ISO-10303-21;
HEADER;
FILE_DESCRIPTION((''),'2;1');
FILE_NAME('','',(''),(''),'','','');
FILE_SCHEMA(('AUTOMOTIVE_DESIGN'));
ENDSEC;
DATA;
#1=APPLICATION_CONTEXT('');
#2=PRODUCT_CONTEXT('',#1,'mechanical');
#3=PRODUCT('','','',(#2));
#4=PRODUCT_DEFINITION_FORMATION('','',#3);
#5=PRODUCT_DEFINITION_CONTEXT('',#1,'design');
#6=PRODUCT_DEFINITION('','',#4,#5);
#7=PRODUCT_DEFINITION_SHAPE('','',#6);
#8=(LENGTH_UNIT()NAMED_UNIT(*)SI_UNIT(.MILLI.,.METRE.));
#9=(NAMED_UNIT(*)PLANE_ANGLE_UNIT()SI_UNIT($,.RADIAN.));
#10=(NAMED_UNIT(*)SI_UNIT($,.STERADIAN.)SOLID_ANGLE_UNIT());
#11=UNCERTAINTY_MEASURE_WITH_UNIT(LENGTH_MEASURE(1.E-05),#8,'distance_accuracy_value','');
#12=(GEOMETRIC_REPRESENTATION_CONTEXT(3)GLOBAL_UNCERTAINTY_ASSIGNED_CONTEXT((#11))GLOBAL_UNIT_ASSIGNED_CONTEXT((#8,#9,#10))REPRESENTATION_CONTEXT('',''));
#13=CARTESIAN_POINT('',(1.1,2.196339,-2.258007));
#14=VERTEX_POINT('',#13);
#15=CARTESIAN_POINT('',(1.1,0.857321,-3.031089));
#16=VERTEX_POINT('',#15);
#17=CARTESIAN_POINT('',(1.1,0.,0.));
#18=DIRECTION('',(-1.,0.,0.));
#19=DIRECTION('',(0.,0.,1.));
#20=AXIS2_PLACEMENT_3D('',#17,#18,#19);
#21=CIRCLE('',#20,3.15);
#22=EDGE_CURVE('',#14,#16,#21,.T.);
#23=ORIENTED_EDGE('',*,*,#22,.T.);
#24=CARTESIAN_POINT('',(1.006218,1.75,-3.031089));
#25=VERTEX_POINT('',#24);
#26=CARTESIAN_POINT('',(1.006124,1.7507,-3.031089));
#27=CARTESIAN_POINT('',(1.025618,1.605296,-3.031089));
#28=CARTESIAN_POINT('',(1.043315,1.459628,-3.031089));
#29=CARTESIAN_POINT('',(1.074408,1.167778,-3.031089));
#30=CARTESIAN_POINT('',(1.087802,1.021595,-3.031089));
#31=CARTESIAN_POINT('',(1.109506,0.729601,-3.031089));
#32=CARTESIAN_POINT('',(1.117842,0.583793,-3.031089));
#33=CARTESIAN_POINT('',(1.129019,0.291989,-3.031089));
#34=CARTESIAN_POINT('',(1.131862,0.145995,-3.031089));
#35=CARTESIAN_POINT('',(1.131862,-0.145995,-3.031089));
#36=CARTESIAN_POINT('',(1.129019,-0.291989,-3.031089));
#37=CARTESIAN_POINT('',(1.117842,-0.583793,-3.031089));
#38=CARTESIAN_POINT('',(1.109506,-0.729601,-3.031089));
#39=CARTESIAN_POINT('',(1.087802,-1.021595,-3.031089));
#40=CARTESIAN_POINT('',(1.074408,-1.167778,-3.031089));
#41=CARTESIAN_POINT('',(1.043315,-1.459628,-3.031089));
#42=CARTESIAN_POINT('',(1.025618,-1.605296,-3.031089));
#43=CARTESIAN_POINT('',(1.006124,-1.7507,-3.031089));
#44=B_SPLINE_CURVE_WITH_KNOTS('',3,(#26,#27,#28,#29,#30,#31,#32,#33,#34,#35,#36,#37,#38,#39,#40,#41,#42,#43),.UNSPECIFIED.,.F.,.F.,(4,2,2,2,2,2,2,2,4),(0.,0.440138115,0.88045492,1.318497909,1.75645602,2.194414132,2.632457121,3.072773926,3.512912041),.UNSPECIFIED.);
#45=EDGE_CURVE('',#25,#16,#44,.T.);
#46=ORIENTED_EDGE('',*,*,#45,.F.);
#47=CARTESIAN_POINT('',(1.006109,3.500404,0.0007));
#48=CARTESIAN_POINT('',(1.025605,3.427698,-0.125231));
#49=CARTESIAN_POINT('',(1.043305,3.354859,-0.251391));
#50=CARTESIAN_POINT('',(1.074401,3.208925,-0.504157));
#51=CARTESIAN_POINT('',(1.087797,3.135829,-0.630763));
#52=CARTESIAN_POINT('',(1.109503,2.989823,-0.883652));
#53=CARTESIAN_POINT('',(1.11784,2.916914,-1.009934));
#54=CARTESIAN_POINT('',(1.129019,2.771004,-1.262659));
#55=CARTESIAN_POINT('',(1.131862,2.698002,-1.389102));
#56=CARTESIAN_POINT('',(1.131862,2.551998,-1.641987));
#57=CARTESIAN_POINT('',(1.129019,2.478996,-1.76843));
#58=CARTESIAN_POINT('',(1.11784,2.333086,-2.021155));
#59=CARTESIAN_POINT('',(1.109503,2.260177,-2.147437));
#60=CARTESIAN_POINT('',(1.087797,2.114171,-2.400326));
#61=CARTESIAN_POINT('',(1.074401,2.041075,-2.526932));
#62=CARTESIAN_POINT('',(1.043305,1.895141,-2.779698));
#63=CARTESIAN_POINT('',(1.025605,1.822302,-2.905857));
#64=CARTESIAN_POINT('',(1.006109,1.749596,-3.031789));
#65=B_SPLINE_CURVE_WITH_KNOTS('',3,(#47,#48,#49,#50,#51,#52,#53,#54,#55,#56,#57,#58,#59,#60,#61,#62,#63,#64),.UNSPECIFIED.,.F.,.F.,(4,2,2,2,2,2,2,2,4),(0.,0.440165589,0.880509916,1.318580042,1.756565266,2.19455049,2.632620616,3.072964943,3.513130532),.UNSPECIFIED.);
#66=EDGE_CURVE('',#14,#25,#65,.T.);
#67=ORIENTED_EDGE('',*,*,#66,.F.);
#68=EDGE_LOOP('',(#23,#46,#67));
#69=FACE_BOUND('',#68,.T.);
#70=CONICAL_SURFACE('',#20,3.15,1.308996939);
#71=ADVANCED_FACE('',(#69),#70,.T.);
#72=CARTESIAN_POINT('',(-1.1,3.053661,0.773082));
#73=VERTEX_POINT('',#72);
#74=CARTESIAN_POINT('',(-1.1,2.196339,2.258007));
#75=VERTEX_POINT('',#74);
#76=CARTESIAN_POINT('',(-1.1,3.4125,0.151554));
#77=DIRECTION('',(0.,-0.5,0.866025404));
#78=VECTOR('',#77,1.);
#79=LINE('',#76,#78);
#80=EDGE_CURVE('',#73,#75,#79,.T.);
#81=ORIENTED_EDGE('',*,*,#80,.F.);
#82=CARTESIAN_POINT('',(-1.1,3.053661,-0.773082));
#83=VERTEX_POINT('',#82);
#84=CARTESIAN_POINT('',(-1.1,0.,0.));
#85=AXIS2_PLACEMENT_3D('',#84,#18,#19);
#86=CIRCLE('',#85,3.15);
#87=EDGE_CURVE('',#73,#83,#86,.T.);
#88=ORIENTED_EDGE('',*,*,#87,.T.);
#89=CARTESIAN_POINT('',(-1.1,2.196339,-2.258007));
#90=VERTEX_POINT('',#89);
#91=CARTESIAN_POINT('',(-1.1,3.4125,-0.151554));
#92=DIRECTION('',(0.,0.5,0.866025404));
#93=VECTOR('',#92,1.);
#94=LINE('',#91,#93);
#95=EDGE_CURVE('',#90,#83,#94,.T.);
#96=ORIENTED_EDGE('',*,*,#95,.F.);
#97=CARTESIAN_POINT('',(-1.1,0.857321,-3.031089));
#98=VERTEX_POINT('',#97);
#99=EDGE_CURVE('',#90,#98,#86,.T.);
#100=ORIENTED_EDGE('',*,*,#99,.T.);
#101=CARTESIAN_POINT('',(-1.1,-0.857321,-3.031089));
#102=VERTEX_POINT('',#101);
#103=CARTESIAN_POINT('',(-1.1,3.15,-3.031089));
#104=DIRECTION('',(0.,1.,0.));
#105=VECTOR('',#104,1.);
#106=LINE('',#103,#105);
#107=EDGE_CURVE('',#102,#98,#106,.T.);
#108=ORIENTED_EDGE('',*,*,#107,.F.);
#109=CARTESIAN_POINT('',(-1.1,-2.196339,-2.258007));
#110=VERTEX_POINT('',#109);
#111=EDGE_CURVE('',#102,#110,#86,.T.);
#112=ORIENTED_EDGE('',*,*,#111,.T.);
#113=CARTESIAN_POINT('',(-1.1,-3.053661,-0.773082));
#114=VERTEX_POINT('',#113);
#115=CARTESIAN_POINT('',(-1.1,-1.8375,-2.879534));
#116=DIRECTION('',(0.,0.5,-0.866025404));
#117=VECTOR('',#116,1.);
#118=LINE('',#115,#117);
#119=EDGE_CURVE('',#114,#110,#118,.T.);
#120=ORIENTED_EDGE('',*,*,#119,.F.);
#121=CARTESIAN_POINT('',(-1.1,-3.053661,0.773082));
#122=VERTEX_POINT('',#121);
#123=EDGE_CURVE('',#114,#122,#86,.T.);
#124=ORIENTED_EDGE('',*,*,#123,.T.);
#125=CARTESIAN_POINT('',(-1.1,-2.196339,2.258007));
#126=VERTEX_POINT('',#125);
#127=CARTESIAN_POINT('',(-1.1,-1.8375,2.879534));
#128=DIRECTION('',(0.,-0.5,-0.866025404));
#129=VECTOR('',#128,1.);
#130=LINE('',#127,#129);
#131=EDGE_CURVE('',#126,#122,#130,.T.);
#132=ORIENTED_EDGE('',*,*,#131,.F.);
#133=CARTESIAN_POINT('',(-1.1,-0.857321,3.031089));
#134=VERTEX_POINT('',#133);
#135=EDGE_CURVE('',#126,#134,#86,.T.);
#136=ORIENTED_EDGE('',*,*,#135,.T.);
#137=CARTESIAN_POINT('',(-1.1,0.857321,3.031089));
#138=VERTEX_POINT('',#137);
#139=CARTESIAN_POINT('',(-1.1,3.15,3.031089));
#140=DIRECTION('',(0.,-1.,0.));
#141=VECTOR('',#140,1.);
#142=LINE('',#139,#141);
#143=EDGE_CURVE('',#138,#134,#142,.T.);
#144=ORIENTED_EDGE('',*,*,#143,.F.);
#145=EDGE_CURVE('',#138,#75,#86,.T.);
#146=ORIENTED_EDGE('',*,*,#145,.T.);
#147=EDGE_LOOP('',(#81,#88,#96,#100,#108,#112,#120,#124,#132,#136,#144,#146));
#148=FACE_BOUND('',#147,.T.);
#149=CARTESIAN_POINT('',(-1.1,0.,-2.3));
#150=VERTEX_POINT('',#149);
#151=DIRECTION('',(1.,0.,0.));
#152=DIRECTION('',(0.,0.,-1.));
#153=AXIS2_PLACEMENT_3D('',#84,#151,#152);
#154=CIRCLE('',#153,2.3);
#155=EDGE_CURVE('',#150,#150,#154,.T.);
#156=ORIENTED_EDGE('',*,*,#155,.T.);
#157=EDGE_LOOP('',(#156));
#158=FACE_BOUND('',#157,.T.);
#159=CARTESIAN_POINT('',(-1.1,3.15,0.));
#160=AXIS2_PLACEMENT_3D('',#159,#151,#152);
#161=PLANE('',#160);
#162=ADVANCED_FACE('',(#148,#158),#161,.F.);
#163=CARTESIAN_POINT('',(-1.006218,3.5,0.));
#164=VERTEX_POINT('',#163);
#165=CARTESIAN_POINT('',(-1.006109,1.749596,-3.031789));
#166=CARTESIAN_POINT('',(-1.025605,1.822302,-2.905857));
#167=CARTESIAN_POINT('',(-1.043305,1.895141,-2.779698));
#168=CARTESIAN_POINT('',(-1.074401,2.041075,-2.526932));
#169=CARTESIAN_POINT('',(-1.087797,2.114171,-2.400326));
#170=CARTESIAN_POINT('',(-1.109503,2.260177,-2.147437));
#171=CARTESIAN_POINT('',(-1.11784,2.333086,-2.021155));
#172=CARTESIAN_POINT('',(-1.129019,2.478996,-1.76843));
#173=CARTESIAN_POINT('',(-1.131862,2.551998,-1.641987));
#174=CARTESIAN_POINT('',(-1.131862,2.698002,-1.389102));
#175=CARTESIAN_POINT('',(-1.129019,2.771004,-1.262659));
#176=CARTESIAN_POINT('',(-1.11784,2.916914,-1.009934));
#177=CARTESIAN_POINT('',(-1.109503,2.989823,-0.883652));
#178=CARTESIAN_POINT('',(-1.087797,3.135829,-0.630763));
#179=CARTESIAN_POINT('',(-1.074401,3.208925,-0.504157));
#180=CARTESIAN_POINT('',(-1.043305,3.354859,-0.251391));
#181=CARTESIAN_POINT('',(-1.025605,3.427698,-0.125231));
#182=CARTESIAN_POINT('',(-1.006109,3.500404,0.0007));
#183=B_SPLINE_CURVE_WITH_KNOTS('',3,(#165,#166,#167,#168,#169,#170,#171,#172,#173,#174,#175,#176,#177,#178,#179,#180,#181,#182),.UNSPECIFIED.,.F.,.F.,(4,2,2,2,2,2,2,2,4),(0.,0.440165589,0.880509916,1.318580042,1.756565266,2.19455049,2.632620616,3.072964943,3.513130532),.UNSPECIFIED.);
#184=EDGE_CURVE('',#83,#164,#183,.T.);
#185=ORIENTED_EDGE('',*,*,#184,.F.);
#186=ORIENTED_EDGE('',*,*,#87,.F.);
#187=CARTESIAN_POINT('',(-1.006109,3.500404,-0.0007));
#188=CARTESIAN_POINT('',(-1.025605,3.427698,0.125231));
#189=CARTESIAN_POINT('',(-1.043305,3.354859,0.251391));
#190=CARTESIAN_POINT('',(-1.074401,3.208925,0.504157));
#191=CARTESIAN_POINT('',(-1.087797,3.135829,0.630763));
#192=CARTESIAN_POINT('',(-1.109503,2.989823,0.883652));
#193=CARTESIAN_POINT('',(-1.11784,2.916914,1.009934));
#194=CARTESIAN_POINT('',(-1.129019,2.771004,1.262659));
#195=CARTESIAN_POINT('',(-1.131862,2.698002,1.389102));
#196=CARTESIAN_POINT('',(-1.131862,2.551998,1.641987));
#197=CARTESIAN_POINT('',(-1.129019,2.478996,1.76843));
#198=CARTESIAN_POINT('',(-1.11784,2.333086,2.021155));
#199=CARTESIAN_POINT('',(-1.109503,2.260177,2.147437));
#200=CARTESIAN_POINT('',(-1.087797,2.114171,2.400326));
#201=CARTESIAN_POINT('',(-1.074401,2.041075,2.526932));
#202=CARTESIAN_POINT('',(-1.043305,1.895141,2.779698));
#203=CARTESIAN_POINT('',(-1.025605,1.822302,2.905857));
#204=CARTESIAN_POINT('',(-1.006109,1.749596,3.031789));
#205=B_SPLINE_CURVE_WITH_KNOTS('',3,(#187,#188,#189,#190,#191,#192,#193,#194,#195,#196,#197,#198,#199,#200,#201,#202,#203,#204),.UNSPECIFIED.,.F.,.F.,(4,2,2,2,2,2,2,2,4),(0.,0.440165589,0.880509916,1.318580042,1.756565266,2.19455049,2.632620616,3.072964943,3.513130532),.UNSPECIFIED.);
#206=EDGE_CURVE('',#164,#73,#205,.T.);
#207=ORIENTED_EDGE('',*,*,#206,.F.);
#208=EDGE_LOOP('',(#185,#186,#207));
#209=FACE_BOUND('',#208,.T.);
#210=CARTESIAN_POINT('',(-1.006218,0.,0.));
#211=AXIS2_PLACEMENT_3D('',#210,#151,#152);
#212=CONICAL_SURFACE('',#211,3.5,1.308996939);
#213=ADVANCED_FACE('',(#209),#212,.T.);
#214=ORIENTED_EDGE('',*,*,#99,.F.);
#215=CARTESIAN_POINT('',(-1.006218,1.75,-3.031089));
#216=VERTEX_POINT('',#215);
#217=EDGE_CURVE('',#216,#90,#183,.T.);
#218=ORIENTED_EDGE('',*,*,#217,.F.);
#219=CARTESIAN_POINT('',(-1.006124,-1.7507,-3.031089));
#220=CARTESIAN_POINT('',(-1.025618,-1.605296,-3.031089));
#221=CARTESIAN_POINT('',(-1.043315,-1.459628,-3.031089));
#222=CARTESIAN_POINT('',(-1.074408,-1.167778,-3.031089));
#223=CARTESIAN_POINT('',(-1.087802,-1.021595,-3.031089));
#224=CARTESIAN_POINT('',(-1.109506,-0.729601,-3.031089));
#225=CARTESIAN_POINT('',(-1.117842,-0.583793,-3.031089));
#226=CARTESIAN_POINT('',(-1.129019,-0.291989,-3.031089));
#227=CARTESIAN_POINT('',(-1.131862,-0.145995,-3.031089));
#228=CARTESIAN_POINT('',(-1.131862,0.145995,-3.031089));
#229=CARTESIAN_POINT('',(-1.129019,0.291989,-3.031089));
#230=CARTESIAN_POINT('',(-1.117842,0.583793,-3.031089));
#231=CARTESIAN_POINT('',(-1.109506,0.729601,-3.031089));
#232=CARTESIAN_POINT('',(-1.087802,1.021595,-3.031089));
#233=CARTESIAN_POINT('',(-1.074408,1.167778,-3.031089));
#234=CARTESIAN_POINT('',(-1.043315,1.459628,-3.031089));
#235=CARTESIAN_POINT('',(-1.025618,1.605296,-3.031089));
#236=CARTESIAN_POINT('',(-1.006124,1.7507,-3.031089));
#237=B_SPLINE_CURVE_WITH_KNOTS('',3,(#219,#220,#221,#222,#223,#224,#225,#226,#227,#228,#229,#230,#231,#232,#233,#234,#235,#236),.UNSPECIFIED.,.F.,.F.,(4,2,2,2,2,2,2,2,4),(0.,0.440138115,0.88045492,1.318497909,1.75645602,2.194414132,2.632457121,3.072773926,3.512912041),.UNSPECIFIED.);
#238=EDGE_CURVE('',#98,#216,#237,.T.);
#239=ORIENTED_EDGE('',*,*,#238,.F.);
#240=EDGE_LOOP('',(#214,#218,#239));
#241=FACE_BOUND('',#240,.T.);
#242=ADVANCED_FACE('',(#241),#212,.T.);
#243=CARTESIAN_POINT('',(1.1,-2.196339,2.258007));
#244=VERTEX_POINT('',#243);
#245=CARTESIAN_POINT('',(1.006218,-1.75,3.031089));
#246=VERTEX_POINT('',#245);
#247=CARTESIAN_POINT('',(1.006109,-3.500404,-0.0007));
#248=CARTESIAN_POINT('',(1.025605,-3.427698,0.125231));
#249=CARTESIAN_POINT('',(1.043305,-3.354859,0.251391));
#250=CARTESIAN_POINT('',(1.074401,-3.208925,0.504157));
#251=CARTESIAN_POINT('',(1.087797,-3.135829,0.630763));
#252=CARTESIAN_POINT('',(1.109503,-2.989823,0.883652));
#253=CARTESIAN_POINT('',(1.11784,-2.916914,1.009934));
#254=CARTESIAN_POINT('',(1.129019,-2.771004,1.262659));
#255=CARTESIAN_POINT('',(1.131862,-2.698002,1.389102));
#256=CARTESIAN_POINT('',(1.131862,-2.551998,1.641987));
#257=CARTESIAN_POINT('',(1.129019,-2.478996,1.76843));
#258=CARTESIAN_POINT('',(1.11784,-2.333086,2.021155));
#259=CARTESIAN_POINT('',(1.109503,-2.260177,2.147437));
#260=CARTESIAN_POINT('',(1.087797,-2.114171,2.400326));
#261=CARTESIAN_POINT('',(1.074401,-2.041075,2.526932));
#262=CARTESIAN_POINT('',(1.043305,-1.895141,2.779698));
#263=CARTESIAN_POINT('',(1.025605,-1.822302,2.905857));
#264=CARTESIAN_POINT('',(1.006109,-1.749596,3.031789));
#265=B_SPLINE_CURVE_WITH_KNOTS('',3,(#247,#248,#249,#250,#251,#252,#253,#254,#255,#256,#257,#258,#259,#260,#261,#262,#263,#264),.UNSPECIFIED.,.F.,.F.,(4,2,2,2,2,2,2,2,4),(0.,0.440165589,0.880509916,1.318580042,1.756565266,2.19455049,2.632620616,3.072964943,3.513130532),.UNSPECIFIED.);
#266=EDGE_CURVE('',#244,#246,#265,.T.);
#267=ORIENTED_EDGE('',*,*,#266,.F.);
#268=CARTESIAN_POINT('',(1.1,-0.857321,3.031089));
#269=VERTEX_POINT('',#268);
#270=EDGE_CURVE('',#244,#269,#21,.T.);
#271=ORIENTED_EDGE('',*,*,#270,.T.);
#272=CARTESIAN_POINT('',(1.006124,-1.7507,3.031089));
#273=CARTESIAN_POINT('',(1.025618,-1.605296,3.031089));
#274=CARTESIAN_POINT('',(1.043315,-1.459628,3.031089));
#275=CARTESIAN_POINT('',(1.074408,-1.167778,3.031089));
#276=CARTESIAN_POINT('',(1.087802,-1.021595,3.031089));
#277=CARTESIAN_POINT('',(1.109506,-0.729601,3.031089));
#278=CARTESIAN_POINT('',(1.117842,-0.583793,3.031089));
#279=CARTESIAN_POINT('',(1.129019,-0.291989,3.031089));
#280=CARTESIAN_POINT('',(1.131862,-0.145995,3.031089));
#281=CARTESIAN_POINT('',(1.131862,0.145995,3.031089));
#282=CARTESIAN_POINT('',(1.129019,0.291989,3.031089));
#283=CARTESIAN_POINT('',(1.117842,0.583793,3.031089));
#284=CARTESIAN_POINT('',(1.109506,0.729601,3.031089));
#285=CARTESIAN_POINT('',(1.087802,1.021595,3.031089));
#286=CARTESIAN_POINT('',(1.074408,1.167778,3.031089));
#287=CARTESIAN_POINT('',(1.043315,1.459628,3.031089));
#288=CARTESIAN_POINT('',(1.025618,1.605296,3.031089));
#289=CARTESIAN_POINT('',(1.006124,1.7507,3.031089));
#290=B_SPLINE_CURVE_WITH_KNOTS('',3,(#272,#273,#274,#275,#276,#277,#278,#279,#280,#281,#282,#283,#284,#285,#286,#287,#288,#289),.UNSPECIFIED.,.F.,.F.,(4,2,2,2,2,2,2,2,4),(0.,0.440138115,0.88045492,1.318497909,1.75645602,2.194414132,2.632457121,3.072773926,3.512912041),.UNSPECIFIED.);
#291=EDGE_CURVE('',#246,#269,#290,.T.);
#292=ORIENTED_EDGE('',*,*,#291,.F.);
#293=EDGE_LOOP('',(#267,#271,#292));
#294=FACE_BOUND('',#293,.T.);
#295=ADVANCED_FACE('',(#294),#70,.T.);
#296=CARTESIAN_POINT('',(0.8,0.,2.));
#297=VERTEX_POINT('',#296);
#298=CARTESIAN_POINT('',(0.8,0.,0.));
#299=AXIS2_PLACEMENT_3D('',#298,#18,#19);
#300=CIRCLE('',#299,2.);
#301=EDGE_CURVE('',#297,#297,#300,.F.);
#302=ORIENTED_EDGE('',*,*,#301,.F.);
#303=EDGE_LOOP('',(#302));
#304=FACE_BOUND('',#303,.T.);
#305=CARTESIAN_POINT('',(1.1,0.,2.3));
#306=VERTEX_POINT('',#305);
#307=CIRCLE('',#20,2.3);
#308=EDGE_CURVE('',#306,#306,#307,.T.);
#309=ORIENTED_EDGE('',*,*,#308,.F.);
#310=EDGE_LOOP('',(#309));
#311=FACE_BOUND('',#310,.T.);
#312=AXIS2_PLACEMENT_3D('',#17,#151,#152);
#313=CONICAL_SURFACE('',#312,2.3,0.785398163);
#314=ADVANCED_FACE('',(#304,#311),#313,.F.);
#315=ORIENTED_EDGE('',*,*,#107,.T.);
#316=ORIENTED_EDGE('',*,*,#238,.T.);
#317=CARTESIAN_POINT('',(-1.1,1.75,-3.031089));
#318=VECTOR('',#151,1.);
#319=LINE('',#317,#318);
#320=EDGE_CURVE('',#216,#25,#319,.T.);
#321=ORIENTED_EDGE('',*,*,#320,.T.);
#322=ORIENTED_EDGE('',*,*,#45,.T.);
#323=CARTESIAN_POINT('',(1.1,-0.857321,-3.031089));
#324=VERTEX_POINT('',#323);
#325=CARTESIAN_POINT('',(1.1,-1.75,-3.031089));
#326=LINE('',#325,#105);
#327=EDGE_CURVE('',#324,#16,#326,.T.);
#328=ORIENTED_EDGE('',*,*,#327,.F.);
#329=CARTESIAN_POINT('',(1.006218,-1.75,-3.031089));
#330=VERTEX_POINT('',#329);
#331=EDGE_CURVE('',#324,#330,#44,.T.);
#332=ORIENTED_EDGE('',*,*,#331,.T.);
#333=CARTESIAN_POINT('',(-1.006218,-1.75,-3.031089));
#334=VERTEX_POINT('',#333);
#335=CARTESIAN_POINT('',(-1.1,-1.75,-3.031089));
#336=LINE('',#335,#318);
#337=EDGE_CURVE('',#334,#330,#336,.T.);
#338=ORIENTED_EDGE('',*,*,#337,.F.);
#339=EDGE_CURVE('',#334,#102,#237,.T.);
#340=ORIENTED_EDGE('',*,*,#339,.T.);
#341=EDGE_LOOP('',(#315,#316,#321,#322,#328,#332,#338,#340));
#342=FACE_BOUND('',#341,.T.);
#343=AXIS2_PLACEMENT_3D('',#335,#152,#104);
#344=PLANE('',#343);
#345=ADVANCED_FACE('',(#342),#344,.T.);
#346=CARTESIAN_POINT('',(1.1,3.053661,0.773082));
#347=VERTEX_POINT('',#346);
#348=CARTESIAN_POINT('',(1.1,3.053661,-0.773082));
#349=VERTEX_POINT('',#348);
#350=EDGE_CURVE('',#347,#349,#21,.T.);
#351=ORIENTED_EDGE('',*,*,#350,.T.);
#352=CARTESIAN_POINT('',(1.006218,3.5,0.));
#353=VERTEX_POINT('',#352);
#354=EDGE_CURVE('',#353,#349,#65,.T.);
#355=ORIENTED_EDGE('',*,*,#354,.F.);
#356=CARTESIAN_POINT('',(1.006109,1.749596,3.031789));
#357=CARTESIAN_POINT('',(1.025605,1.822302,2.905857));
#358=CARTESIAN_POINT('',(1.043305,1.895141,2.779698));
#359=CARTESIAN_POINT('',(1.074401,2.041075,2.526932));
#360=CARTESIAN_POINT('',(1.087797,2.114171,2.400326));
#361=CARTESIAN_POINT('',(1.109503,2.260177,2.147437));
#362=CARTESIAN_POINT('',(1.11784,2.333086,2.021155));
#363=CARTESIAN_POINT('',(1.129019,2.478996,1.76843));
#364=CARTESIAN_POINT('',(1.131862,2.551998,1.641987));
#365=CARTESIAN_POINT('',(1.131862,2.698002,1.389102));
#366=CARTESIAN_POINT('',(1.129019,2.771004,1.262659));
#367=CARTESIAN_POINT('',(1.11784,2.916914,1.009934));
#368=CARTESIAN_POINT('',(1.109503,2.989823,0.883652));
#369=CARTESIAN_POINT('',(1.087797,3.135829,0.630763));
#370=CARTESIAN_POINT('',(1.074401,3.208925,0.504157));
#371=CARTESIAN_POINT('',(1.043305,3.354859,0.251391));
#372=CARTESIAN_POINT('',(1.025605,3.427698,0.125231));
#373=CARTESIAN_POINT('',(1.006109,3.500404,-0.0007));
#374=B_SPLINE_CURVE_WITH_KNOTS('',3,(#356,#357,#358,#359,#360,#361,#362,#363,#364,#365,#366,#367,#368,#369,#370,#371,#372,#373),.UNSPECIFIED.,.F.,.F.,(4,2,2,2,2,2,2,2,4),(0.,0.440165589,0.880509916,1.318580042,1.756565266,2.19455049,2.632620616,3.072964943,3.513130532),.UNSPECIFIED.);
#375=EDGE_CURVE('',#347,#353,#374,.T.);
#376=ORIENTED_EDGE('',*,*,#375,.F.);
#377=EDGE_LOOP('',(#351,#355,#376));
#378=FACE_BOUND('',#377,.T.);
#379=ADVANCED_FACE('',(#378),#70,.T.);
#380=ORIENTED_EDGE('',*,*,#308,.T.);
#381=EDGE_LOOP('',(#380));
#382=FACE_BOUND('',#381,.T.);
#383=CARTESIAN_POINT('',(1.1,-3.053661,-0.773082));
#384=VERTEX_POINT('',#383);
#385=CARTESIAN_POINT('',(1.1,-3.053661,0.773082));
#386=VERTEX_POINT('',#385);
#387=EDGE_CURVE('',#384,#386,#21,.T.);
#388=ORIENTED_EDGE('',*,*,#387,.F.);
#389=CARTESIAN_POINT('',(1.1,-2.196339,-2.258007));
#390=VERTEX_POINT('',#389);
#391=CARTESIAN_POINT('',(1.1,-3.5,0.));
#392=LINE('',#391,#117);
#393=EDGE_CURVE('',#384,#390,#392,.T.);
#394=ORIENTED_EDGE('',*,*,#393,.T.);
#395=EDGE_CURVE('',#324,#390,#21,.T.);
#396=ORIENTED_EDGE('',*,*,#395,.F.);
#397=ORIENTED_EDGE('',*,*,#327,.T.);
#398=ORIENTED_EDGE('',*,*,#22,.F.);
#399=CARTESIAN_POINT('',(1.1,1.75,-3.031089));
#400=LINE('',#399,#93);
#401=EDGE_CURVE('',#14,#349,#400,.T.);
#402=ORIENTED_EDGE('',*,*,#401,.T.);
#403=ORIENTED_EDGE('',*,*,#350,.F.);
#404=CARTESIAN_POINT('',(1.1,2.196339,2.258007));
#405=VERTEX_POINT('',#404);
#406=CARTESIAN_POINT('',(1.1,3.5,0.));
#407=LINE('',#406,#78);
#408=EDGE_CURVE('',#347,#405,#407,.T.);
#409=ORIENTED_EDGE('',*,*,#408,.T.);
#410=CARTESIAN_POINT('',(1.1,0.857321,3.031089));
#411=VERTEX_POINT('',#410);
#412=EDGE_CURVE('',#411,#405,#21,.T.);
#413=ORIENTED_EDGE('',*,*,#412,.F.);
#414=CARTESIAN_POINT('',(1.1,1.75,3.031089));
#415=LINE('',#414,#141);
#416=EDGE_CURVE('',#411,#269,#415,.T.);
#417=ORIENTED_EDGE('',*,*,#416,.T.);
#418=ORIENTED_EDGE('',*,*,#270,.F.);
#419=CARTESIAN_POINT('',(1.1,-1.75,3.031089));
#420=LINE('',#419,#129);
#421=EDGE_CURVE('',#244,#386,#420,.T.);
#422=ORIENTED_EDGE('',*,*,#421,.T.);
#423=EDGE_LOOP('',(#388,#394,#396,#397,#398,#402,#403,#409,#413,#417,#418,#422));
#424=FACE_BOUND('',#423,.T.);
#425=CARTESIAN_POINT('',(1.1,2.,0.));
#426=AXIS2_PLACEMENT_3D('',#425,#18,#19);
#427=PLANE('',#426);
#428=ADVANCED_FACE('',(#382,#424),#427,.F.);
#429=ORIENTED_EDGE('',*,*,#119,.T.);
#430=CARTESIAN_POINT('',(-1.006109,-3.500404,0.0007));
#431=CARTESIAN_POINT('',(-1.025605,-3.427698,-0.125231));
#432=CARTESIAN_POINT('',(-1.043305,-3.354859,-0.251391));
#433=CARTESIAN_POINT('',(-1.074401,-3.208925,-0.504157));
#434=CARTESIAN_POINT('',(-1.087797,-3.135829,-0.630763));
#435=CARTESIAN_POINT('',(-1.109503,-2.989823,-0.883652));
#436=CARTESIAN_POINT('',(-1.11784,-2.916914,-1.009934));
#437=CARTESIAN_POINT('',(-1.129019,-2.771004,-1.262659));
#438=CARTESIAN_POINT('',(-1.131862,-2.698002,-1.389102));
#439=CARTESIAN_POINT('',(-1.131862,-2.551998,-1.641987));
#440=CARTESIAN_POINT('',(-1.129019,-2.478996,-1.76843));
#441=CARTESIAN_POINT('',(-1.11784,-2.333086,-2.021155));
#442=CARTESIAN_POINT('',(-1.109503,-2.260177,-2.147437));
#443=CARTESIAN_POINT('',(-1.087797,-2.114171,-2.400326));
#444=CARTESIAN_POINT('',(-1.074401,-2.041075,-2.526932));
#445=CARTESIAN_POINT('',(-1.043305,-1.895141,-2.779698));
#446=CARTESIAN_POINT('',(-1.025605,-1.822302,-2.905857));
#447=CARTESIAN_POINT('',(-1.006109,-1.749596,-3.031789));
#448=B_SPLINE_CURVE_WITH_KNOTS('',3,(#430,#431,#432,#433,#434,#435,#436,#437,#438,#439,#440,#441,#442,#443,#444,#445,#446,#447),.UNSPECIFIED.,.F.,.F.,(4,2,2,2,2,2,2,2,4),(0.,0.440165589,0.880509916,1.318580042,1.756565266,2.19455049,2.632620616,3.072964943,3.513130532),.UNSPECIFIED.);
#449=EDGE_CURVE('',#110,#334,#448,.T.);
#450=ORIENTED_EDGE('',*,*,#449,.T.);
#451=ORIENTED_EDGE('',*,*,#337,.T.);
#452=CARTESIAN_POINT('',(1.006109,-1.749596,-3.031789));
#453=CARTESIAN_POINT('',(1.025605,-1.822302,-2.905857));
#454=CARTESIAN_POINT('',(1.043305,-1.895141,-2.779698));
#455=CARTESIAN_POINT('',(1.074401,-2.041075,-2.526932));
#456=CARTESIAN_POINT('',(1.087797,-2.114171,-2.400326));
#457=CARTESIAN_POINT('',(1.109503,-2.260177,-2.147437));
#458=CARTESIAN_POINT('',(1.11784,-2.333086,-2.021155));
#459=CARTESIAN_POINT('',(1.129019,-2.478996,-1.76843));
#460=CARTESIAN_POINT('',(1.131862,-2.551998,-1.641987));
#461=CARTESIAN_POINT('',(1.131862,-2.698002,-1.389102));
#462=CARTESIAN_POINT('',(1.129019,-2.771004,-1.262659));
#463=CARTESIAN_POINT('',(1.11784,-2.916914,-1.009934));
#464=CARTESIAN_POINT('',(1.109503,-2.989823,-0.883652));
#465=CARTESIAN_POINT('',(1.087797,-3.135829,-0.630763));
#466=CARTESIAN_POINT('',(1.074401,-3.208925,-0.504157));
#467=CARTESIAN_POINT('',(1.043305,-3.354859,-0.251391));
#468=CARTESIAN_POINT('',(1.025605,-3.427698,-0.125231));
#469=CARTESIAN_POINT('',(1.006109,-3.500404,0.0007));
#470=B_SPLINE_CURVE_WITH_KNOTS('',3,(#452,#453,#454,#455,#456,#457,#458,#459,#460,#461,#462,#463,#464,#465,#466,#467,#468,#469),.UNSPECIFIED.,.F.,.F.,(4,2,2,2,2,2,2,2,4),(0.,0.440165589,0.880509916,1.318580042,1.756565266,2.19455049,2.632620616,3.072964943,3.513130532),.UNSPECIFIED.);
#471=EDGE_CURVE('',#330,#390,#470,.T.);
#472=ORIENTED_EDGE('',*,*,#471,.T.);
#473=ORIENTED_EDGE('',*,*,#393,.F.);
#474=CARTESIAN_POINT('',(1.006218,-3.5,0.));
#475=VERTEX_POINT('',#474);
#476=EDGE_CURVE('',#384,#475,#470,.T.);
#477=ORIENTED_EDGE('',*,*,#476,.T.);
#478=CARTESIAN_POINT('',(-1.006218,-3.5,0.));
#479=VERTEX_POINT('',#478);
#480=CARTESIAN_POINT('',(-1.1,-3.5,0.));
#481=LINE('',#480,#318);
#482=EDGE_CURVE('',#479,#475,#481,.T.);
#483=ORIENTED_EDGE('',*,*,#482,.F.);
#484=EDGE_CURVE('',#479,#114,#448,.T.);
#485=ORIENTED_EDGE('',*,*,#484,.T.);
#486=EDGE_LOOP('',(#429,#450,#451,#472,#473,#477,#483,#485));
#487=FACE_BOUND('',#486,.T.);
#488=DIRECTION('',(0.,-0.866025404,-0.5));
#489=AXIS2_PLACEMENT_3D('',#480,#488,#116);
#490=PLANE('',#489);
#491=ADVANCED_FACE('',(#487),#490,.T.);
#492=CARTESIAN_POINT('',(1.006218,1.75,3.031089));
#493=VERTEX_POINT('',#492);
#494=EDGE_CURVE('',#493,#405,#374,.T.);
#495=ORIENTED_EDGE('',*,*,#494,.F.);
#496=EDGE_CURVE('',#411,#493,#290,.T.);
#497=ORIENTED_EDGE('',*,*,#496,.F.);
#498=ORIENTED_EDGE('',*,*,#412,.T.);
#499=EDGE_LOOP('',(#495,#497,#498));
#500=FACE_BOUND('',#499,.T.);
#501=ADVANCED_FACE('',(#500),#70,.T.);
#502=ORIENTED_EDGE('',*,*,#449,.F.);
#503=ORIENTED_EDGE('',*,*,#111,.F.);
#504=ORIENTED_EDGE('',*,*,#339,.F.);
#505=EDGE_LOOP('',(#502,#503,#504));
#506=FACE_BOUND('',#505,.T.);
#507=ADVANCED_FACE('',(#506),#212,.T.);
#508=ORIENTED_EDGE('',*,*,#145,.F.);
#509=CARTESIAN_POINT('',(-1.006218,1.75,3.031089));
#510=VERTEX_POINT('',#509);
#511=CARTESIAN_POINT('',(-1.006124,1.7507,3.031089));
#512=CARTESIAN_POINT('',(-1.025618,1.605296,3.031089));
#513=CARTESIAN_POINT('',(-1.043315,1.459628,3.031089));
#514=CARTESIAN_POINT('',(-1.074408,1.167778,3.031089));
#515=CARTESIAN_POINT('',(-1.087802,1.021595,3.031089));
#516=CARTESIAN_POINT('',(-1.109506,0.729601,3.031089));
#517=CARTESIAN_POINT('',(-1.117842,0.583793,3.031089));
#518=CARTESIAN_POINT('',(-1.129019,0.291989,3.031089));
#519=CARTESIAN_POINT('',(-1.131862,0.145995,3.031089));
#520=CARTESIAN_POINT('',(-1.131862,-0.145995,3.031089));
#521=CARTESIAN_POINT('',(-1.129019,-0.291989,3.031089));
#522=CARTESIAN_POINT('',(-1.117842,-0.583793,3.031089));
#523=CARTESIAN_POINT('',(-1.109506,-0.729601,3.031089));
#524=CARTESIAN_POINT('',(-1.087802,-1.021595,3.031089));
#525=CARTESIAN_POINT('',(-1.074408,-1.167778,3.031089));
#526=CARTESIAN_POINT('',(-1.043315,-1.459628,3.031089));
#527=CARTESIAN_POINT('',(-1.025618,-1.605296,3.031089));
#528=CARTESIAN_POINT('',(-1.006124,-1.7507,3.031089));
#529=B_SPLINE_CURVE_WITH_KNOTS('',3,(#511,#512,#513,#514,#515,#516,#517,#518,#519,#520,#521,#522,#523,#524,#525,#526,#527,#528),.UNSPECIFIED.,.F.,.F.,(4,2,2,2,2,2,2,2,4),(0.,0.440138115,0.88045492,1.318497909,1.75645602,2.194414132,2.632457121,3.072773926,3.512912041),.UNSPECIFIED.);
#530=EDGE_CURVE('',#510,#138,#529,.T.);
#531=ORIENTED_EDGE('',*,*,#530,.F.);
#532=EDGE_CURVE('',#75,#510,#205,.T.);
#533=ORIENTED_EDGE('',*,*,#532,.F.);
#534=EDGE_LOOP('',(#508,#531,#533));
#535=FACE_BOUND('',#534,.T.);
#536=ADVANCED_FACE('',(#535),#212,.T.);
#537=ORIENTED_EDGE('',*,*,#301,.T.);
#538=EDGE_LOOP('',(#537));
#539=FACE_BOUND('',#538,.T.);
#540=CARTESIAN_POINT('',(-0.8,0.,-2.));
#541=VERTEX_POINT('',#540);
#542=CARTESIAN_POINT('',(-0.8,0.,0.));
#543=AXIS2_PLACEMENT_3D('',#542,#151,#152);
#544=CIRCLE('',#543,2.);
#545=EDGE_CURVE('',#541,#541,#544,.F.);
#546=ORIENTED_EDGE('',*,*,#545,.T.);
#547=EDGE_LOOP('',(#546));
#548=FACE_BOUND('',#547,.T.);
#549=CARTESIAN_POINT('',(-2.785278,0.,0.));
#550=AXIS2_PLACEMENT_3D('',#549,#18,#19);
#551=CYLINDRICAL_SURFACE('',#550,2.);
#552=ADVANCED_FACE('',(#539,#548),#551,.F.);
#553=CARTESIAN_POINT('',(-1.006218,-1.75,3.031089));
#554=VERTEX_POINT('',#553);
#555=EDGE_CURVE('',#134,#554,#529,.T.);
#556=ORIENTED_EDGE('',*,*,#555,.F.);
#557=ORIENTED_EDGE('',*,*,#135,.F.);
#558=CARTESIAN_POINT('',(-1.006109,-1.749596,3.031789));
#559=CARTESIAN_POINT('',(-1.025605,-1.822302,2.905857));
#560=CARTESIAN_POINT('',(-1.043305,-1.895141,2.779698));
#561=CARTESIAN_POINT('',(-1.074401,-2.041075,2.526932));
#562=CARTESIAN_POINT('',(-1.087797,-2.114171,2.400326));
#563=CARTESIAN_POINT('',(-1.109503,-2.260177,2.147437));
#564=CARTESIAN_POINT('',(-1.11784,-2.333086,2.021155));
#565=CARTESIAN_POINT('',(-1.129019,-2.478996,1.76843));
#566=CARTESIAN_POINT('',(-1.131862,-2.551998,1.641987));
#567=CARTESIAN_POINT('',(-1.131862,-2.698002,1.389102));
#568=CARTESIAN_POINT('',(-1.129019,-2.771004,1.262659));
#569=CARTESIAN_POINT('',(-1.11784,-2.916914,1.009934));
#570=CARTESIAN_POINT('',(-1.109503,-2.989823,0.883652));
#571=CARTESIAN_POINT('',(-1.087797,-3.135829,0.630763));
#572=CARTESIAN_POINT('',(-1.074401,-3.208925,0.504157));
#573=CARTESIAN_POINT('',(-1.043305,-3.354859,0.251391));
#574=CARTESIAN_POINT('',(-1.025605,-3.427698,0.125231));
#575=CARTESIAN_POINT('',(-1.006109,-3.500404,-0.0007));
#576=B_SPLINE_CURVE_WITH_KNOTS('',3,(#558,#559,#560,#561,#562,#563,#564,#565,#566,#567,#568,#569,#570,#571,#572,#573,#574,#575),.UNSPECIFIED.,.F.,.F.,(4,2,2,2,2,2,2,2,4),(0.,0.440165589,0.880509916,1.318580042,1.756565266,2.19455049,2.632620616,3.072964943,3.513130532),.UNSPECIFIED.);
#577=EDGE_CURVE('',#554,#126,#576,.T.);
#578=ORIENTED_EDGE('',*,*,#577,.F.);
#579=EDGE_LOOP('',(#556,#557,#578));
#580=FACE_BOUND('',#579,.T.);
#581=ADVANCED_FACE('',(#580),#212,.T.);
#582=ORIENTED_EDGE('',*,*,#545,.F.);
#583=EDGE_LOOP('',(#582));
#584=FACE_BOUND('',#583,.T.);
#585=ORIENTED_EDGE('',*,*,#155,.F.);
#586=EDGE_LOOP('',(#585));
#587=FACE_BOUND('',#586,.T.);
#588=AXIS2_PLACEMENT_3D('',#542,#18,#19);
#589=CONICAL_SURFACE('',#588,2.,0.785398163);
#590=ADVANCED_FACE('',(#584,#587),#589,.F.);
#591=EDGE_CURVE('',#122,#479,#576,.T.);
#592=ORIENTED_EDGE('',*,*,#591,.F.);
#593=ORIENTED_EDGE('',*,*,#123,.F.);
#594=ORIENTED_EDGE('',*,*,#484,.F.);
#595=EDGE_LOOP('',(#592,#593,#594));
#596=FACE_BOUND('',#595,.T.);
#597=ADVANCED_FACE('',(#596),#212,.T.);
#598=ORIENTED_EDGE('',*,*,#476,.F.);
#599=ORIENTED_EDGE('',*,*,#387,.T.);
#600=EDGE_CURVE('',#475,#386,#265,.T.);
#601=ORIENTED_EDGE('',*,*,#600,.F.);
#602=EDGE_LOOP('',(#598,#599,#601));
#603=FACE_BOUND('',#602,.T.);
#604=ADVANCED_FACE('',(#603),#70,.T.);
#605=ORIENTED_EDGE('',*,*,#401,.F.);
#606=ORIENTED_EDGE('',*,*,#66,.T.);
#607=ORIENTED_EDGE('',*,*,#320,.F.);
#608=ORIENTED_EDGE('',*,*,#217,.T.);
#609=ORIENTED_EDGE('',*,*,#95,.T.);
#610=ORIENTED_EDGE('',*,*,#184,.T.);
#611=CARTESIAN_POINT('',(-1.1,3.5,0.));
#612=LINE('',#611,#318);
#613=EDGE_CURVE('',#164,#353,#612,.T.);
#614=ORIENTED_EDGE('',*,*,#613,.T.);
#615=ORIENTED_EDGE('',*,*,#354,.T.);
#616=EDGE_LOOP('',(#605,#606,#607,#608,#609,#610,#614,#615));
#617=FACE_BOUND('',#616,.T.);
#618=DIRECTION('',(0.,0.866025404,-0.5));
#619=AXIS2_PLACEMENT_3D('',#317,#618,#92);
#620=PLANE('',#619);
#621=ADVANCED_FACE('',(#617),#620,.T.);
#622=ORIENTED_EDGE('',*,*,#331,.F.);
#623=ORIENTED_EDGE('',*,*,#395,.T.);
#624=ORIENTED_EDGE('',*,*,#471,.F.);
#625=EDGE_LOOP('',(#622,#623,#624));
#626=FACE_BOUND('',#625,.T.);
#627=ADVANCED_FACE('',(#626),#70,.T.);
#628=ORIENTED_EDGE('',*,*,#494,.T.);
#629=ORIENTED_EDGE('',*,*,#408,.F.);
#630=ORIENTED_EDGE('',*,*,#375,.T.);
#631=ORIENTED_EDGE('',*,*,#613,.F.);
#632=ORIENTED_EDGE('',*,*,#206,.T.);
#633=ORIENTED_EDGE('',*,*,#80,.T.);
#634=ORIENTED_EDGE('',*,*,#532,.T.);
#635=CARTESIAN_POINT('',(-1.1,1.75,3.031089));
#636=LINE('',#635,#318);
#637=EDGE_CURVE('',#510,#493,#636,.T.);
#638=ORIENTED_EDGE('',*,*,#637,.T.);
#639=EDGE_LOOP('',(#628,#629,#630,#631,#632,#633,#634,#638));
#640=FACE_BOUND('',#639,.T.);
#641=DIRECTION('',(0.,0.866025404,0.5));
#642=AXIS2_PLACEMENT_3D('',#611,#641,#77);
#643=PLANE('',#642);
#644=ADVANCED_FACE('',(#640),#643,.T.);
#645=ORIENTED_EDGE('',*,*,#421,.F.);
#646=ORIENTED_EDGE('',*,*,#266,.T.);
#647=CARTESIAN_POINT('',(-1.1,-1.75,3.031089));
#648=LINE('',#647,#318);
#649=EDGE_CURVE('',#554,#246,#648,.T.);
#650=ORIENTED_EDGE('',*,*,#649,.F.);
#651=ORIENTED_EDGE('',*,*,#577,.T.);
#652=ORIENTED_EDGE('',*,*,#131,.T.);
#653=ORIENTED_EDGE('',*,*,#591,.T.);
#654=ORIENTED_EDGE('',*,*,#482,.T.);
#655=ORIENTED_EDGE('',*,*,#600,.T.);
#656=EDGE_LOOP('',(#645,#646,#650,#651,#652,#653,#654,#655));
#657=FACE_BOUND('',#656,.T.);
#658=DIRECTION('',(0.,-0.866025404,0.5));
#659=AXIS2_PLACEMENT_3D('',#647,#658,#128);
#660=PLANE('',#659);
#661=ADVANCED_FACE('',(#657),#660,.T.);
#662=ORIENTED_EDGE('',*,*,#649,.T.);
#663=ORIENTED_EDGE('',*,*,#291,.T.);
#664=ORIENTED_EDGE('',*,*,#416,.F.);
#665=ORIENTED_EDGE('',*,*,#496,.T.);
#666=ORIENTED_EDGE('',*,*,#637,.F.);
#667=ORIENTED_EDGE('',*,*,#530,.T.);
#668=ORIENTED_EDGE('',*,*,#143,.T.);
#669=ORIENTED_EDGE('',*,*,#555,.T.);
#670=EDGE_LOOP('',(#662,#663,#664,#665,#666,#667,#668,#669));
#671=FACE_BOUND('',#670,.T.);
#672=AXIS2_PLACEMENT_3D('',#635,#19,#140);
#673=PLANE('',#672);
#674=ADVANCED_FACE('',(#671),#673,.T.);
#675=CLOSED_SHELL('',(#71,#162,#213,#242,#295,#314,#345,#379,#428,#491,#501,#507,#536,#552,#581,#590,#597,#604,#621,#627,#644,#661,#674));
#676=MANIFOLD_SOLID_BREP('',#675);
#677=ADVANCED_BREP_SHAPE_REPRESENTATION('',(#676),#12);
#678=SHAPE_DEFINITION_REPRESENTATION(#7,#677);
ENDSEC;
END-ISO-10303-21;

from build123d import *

# Parameters (mm, degrees)
SKETCH_5_OUTSIDE_W  = 11.028
SKETCH_5_OUTSIDE_H  = 11.028
CUT_EXTRUDE_6_DEPTH = 1.1
CHAMFER_4_SIZE      = 0.3


with BuildPart() as part:
    # Эскиз3 → Повернуть1 (revolve)
    with BuildSketch(Plane.XY):
        Polygon((1.1, 2), (1.1, 3.15), (1.006217783, 3.5), (-1.006217783, 3.5), (-1.1, 3.15), (-1.1, 2), align=None)
    revolve(axis=Axis((-2.78527838, 0, 0), (1, 0, 0)))

    # Эскиз5 outside → Вырез-Вытянуть6 (cut, symmetric)
    with BuildSketch(Plane(origin=(0, 0, 0), x_dir=(0, 0, -1), z_dir=(1, 0, 0))):
        Rectangle(SKETCH_5_OUTSIDE_W, SKETCH_5_OUTSIDE_H)
        Polygon((0, 3.5), (-3.031088913, 1.75), (-3.031088913, -1.75), (0, -3.5), (3.031088913, -1.75), (3.031088913, 1.75), align=None, mode=Mode.SUBTRACT)
    extrude(amount=CUT_EXTRUDE_6_DEPTH, both=True, mode=Mode.SUBTRACT)

    # Фаска4
    chamfer_4_edges = [part.edges().sort_by_distance(p)[0] for p in [
        (-1.1, -2, 0),
        (1.1, -2, 0),
    ]]
    chamfer(chamfer_4_edges, length=CHAMFER_4_SIZE)


solid = part.part
